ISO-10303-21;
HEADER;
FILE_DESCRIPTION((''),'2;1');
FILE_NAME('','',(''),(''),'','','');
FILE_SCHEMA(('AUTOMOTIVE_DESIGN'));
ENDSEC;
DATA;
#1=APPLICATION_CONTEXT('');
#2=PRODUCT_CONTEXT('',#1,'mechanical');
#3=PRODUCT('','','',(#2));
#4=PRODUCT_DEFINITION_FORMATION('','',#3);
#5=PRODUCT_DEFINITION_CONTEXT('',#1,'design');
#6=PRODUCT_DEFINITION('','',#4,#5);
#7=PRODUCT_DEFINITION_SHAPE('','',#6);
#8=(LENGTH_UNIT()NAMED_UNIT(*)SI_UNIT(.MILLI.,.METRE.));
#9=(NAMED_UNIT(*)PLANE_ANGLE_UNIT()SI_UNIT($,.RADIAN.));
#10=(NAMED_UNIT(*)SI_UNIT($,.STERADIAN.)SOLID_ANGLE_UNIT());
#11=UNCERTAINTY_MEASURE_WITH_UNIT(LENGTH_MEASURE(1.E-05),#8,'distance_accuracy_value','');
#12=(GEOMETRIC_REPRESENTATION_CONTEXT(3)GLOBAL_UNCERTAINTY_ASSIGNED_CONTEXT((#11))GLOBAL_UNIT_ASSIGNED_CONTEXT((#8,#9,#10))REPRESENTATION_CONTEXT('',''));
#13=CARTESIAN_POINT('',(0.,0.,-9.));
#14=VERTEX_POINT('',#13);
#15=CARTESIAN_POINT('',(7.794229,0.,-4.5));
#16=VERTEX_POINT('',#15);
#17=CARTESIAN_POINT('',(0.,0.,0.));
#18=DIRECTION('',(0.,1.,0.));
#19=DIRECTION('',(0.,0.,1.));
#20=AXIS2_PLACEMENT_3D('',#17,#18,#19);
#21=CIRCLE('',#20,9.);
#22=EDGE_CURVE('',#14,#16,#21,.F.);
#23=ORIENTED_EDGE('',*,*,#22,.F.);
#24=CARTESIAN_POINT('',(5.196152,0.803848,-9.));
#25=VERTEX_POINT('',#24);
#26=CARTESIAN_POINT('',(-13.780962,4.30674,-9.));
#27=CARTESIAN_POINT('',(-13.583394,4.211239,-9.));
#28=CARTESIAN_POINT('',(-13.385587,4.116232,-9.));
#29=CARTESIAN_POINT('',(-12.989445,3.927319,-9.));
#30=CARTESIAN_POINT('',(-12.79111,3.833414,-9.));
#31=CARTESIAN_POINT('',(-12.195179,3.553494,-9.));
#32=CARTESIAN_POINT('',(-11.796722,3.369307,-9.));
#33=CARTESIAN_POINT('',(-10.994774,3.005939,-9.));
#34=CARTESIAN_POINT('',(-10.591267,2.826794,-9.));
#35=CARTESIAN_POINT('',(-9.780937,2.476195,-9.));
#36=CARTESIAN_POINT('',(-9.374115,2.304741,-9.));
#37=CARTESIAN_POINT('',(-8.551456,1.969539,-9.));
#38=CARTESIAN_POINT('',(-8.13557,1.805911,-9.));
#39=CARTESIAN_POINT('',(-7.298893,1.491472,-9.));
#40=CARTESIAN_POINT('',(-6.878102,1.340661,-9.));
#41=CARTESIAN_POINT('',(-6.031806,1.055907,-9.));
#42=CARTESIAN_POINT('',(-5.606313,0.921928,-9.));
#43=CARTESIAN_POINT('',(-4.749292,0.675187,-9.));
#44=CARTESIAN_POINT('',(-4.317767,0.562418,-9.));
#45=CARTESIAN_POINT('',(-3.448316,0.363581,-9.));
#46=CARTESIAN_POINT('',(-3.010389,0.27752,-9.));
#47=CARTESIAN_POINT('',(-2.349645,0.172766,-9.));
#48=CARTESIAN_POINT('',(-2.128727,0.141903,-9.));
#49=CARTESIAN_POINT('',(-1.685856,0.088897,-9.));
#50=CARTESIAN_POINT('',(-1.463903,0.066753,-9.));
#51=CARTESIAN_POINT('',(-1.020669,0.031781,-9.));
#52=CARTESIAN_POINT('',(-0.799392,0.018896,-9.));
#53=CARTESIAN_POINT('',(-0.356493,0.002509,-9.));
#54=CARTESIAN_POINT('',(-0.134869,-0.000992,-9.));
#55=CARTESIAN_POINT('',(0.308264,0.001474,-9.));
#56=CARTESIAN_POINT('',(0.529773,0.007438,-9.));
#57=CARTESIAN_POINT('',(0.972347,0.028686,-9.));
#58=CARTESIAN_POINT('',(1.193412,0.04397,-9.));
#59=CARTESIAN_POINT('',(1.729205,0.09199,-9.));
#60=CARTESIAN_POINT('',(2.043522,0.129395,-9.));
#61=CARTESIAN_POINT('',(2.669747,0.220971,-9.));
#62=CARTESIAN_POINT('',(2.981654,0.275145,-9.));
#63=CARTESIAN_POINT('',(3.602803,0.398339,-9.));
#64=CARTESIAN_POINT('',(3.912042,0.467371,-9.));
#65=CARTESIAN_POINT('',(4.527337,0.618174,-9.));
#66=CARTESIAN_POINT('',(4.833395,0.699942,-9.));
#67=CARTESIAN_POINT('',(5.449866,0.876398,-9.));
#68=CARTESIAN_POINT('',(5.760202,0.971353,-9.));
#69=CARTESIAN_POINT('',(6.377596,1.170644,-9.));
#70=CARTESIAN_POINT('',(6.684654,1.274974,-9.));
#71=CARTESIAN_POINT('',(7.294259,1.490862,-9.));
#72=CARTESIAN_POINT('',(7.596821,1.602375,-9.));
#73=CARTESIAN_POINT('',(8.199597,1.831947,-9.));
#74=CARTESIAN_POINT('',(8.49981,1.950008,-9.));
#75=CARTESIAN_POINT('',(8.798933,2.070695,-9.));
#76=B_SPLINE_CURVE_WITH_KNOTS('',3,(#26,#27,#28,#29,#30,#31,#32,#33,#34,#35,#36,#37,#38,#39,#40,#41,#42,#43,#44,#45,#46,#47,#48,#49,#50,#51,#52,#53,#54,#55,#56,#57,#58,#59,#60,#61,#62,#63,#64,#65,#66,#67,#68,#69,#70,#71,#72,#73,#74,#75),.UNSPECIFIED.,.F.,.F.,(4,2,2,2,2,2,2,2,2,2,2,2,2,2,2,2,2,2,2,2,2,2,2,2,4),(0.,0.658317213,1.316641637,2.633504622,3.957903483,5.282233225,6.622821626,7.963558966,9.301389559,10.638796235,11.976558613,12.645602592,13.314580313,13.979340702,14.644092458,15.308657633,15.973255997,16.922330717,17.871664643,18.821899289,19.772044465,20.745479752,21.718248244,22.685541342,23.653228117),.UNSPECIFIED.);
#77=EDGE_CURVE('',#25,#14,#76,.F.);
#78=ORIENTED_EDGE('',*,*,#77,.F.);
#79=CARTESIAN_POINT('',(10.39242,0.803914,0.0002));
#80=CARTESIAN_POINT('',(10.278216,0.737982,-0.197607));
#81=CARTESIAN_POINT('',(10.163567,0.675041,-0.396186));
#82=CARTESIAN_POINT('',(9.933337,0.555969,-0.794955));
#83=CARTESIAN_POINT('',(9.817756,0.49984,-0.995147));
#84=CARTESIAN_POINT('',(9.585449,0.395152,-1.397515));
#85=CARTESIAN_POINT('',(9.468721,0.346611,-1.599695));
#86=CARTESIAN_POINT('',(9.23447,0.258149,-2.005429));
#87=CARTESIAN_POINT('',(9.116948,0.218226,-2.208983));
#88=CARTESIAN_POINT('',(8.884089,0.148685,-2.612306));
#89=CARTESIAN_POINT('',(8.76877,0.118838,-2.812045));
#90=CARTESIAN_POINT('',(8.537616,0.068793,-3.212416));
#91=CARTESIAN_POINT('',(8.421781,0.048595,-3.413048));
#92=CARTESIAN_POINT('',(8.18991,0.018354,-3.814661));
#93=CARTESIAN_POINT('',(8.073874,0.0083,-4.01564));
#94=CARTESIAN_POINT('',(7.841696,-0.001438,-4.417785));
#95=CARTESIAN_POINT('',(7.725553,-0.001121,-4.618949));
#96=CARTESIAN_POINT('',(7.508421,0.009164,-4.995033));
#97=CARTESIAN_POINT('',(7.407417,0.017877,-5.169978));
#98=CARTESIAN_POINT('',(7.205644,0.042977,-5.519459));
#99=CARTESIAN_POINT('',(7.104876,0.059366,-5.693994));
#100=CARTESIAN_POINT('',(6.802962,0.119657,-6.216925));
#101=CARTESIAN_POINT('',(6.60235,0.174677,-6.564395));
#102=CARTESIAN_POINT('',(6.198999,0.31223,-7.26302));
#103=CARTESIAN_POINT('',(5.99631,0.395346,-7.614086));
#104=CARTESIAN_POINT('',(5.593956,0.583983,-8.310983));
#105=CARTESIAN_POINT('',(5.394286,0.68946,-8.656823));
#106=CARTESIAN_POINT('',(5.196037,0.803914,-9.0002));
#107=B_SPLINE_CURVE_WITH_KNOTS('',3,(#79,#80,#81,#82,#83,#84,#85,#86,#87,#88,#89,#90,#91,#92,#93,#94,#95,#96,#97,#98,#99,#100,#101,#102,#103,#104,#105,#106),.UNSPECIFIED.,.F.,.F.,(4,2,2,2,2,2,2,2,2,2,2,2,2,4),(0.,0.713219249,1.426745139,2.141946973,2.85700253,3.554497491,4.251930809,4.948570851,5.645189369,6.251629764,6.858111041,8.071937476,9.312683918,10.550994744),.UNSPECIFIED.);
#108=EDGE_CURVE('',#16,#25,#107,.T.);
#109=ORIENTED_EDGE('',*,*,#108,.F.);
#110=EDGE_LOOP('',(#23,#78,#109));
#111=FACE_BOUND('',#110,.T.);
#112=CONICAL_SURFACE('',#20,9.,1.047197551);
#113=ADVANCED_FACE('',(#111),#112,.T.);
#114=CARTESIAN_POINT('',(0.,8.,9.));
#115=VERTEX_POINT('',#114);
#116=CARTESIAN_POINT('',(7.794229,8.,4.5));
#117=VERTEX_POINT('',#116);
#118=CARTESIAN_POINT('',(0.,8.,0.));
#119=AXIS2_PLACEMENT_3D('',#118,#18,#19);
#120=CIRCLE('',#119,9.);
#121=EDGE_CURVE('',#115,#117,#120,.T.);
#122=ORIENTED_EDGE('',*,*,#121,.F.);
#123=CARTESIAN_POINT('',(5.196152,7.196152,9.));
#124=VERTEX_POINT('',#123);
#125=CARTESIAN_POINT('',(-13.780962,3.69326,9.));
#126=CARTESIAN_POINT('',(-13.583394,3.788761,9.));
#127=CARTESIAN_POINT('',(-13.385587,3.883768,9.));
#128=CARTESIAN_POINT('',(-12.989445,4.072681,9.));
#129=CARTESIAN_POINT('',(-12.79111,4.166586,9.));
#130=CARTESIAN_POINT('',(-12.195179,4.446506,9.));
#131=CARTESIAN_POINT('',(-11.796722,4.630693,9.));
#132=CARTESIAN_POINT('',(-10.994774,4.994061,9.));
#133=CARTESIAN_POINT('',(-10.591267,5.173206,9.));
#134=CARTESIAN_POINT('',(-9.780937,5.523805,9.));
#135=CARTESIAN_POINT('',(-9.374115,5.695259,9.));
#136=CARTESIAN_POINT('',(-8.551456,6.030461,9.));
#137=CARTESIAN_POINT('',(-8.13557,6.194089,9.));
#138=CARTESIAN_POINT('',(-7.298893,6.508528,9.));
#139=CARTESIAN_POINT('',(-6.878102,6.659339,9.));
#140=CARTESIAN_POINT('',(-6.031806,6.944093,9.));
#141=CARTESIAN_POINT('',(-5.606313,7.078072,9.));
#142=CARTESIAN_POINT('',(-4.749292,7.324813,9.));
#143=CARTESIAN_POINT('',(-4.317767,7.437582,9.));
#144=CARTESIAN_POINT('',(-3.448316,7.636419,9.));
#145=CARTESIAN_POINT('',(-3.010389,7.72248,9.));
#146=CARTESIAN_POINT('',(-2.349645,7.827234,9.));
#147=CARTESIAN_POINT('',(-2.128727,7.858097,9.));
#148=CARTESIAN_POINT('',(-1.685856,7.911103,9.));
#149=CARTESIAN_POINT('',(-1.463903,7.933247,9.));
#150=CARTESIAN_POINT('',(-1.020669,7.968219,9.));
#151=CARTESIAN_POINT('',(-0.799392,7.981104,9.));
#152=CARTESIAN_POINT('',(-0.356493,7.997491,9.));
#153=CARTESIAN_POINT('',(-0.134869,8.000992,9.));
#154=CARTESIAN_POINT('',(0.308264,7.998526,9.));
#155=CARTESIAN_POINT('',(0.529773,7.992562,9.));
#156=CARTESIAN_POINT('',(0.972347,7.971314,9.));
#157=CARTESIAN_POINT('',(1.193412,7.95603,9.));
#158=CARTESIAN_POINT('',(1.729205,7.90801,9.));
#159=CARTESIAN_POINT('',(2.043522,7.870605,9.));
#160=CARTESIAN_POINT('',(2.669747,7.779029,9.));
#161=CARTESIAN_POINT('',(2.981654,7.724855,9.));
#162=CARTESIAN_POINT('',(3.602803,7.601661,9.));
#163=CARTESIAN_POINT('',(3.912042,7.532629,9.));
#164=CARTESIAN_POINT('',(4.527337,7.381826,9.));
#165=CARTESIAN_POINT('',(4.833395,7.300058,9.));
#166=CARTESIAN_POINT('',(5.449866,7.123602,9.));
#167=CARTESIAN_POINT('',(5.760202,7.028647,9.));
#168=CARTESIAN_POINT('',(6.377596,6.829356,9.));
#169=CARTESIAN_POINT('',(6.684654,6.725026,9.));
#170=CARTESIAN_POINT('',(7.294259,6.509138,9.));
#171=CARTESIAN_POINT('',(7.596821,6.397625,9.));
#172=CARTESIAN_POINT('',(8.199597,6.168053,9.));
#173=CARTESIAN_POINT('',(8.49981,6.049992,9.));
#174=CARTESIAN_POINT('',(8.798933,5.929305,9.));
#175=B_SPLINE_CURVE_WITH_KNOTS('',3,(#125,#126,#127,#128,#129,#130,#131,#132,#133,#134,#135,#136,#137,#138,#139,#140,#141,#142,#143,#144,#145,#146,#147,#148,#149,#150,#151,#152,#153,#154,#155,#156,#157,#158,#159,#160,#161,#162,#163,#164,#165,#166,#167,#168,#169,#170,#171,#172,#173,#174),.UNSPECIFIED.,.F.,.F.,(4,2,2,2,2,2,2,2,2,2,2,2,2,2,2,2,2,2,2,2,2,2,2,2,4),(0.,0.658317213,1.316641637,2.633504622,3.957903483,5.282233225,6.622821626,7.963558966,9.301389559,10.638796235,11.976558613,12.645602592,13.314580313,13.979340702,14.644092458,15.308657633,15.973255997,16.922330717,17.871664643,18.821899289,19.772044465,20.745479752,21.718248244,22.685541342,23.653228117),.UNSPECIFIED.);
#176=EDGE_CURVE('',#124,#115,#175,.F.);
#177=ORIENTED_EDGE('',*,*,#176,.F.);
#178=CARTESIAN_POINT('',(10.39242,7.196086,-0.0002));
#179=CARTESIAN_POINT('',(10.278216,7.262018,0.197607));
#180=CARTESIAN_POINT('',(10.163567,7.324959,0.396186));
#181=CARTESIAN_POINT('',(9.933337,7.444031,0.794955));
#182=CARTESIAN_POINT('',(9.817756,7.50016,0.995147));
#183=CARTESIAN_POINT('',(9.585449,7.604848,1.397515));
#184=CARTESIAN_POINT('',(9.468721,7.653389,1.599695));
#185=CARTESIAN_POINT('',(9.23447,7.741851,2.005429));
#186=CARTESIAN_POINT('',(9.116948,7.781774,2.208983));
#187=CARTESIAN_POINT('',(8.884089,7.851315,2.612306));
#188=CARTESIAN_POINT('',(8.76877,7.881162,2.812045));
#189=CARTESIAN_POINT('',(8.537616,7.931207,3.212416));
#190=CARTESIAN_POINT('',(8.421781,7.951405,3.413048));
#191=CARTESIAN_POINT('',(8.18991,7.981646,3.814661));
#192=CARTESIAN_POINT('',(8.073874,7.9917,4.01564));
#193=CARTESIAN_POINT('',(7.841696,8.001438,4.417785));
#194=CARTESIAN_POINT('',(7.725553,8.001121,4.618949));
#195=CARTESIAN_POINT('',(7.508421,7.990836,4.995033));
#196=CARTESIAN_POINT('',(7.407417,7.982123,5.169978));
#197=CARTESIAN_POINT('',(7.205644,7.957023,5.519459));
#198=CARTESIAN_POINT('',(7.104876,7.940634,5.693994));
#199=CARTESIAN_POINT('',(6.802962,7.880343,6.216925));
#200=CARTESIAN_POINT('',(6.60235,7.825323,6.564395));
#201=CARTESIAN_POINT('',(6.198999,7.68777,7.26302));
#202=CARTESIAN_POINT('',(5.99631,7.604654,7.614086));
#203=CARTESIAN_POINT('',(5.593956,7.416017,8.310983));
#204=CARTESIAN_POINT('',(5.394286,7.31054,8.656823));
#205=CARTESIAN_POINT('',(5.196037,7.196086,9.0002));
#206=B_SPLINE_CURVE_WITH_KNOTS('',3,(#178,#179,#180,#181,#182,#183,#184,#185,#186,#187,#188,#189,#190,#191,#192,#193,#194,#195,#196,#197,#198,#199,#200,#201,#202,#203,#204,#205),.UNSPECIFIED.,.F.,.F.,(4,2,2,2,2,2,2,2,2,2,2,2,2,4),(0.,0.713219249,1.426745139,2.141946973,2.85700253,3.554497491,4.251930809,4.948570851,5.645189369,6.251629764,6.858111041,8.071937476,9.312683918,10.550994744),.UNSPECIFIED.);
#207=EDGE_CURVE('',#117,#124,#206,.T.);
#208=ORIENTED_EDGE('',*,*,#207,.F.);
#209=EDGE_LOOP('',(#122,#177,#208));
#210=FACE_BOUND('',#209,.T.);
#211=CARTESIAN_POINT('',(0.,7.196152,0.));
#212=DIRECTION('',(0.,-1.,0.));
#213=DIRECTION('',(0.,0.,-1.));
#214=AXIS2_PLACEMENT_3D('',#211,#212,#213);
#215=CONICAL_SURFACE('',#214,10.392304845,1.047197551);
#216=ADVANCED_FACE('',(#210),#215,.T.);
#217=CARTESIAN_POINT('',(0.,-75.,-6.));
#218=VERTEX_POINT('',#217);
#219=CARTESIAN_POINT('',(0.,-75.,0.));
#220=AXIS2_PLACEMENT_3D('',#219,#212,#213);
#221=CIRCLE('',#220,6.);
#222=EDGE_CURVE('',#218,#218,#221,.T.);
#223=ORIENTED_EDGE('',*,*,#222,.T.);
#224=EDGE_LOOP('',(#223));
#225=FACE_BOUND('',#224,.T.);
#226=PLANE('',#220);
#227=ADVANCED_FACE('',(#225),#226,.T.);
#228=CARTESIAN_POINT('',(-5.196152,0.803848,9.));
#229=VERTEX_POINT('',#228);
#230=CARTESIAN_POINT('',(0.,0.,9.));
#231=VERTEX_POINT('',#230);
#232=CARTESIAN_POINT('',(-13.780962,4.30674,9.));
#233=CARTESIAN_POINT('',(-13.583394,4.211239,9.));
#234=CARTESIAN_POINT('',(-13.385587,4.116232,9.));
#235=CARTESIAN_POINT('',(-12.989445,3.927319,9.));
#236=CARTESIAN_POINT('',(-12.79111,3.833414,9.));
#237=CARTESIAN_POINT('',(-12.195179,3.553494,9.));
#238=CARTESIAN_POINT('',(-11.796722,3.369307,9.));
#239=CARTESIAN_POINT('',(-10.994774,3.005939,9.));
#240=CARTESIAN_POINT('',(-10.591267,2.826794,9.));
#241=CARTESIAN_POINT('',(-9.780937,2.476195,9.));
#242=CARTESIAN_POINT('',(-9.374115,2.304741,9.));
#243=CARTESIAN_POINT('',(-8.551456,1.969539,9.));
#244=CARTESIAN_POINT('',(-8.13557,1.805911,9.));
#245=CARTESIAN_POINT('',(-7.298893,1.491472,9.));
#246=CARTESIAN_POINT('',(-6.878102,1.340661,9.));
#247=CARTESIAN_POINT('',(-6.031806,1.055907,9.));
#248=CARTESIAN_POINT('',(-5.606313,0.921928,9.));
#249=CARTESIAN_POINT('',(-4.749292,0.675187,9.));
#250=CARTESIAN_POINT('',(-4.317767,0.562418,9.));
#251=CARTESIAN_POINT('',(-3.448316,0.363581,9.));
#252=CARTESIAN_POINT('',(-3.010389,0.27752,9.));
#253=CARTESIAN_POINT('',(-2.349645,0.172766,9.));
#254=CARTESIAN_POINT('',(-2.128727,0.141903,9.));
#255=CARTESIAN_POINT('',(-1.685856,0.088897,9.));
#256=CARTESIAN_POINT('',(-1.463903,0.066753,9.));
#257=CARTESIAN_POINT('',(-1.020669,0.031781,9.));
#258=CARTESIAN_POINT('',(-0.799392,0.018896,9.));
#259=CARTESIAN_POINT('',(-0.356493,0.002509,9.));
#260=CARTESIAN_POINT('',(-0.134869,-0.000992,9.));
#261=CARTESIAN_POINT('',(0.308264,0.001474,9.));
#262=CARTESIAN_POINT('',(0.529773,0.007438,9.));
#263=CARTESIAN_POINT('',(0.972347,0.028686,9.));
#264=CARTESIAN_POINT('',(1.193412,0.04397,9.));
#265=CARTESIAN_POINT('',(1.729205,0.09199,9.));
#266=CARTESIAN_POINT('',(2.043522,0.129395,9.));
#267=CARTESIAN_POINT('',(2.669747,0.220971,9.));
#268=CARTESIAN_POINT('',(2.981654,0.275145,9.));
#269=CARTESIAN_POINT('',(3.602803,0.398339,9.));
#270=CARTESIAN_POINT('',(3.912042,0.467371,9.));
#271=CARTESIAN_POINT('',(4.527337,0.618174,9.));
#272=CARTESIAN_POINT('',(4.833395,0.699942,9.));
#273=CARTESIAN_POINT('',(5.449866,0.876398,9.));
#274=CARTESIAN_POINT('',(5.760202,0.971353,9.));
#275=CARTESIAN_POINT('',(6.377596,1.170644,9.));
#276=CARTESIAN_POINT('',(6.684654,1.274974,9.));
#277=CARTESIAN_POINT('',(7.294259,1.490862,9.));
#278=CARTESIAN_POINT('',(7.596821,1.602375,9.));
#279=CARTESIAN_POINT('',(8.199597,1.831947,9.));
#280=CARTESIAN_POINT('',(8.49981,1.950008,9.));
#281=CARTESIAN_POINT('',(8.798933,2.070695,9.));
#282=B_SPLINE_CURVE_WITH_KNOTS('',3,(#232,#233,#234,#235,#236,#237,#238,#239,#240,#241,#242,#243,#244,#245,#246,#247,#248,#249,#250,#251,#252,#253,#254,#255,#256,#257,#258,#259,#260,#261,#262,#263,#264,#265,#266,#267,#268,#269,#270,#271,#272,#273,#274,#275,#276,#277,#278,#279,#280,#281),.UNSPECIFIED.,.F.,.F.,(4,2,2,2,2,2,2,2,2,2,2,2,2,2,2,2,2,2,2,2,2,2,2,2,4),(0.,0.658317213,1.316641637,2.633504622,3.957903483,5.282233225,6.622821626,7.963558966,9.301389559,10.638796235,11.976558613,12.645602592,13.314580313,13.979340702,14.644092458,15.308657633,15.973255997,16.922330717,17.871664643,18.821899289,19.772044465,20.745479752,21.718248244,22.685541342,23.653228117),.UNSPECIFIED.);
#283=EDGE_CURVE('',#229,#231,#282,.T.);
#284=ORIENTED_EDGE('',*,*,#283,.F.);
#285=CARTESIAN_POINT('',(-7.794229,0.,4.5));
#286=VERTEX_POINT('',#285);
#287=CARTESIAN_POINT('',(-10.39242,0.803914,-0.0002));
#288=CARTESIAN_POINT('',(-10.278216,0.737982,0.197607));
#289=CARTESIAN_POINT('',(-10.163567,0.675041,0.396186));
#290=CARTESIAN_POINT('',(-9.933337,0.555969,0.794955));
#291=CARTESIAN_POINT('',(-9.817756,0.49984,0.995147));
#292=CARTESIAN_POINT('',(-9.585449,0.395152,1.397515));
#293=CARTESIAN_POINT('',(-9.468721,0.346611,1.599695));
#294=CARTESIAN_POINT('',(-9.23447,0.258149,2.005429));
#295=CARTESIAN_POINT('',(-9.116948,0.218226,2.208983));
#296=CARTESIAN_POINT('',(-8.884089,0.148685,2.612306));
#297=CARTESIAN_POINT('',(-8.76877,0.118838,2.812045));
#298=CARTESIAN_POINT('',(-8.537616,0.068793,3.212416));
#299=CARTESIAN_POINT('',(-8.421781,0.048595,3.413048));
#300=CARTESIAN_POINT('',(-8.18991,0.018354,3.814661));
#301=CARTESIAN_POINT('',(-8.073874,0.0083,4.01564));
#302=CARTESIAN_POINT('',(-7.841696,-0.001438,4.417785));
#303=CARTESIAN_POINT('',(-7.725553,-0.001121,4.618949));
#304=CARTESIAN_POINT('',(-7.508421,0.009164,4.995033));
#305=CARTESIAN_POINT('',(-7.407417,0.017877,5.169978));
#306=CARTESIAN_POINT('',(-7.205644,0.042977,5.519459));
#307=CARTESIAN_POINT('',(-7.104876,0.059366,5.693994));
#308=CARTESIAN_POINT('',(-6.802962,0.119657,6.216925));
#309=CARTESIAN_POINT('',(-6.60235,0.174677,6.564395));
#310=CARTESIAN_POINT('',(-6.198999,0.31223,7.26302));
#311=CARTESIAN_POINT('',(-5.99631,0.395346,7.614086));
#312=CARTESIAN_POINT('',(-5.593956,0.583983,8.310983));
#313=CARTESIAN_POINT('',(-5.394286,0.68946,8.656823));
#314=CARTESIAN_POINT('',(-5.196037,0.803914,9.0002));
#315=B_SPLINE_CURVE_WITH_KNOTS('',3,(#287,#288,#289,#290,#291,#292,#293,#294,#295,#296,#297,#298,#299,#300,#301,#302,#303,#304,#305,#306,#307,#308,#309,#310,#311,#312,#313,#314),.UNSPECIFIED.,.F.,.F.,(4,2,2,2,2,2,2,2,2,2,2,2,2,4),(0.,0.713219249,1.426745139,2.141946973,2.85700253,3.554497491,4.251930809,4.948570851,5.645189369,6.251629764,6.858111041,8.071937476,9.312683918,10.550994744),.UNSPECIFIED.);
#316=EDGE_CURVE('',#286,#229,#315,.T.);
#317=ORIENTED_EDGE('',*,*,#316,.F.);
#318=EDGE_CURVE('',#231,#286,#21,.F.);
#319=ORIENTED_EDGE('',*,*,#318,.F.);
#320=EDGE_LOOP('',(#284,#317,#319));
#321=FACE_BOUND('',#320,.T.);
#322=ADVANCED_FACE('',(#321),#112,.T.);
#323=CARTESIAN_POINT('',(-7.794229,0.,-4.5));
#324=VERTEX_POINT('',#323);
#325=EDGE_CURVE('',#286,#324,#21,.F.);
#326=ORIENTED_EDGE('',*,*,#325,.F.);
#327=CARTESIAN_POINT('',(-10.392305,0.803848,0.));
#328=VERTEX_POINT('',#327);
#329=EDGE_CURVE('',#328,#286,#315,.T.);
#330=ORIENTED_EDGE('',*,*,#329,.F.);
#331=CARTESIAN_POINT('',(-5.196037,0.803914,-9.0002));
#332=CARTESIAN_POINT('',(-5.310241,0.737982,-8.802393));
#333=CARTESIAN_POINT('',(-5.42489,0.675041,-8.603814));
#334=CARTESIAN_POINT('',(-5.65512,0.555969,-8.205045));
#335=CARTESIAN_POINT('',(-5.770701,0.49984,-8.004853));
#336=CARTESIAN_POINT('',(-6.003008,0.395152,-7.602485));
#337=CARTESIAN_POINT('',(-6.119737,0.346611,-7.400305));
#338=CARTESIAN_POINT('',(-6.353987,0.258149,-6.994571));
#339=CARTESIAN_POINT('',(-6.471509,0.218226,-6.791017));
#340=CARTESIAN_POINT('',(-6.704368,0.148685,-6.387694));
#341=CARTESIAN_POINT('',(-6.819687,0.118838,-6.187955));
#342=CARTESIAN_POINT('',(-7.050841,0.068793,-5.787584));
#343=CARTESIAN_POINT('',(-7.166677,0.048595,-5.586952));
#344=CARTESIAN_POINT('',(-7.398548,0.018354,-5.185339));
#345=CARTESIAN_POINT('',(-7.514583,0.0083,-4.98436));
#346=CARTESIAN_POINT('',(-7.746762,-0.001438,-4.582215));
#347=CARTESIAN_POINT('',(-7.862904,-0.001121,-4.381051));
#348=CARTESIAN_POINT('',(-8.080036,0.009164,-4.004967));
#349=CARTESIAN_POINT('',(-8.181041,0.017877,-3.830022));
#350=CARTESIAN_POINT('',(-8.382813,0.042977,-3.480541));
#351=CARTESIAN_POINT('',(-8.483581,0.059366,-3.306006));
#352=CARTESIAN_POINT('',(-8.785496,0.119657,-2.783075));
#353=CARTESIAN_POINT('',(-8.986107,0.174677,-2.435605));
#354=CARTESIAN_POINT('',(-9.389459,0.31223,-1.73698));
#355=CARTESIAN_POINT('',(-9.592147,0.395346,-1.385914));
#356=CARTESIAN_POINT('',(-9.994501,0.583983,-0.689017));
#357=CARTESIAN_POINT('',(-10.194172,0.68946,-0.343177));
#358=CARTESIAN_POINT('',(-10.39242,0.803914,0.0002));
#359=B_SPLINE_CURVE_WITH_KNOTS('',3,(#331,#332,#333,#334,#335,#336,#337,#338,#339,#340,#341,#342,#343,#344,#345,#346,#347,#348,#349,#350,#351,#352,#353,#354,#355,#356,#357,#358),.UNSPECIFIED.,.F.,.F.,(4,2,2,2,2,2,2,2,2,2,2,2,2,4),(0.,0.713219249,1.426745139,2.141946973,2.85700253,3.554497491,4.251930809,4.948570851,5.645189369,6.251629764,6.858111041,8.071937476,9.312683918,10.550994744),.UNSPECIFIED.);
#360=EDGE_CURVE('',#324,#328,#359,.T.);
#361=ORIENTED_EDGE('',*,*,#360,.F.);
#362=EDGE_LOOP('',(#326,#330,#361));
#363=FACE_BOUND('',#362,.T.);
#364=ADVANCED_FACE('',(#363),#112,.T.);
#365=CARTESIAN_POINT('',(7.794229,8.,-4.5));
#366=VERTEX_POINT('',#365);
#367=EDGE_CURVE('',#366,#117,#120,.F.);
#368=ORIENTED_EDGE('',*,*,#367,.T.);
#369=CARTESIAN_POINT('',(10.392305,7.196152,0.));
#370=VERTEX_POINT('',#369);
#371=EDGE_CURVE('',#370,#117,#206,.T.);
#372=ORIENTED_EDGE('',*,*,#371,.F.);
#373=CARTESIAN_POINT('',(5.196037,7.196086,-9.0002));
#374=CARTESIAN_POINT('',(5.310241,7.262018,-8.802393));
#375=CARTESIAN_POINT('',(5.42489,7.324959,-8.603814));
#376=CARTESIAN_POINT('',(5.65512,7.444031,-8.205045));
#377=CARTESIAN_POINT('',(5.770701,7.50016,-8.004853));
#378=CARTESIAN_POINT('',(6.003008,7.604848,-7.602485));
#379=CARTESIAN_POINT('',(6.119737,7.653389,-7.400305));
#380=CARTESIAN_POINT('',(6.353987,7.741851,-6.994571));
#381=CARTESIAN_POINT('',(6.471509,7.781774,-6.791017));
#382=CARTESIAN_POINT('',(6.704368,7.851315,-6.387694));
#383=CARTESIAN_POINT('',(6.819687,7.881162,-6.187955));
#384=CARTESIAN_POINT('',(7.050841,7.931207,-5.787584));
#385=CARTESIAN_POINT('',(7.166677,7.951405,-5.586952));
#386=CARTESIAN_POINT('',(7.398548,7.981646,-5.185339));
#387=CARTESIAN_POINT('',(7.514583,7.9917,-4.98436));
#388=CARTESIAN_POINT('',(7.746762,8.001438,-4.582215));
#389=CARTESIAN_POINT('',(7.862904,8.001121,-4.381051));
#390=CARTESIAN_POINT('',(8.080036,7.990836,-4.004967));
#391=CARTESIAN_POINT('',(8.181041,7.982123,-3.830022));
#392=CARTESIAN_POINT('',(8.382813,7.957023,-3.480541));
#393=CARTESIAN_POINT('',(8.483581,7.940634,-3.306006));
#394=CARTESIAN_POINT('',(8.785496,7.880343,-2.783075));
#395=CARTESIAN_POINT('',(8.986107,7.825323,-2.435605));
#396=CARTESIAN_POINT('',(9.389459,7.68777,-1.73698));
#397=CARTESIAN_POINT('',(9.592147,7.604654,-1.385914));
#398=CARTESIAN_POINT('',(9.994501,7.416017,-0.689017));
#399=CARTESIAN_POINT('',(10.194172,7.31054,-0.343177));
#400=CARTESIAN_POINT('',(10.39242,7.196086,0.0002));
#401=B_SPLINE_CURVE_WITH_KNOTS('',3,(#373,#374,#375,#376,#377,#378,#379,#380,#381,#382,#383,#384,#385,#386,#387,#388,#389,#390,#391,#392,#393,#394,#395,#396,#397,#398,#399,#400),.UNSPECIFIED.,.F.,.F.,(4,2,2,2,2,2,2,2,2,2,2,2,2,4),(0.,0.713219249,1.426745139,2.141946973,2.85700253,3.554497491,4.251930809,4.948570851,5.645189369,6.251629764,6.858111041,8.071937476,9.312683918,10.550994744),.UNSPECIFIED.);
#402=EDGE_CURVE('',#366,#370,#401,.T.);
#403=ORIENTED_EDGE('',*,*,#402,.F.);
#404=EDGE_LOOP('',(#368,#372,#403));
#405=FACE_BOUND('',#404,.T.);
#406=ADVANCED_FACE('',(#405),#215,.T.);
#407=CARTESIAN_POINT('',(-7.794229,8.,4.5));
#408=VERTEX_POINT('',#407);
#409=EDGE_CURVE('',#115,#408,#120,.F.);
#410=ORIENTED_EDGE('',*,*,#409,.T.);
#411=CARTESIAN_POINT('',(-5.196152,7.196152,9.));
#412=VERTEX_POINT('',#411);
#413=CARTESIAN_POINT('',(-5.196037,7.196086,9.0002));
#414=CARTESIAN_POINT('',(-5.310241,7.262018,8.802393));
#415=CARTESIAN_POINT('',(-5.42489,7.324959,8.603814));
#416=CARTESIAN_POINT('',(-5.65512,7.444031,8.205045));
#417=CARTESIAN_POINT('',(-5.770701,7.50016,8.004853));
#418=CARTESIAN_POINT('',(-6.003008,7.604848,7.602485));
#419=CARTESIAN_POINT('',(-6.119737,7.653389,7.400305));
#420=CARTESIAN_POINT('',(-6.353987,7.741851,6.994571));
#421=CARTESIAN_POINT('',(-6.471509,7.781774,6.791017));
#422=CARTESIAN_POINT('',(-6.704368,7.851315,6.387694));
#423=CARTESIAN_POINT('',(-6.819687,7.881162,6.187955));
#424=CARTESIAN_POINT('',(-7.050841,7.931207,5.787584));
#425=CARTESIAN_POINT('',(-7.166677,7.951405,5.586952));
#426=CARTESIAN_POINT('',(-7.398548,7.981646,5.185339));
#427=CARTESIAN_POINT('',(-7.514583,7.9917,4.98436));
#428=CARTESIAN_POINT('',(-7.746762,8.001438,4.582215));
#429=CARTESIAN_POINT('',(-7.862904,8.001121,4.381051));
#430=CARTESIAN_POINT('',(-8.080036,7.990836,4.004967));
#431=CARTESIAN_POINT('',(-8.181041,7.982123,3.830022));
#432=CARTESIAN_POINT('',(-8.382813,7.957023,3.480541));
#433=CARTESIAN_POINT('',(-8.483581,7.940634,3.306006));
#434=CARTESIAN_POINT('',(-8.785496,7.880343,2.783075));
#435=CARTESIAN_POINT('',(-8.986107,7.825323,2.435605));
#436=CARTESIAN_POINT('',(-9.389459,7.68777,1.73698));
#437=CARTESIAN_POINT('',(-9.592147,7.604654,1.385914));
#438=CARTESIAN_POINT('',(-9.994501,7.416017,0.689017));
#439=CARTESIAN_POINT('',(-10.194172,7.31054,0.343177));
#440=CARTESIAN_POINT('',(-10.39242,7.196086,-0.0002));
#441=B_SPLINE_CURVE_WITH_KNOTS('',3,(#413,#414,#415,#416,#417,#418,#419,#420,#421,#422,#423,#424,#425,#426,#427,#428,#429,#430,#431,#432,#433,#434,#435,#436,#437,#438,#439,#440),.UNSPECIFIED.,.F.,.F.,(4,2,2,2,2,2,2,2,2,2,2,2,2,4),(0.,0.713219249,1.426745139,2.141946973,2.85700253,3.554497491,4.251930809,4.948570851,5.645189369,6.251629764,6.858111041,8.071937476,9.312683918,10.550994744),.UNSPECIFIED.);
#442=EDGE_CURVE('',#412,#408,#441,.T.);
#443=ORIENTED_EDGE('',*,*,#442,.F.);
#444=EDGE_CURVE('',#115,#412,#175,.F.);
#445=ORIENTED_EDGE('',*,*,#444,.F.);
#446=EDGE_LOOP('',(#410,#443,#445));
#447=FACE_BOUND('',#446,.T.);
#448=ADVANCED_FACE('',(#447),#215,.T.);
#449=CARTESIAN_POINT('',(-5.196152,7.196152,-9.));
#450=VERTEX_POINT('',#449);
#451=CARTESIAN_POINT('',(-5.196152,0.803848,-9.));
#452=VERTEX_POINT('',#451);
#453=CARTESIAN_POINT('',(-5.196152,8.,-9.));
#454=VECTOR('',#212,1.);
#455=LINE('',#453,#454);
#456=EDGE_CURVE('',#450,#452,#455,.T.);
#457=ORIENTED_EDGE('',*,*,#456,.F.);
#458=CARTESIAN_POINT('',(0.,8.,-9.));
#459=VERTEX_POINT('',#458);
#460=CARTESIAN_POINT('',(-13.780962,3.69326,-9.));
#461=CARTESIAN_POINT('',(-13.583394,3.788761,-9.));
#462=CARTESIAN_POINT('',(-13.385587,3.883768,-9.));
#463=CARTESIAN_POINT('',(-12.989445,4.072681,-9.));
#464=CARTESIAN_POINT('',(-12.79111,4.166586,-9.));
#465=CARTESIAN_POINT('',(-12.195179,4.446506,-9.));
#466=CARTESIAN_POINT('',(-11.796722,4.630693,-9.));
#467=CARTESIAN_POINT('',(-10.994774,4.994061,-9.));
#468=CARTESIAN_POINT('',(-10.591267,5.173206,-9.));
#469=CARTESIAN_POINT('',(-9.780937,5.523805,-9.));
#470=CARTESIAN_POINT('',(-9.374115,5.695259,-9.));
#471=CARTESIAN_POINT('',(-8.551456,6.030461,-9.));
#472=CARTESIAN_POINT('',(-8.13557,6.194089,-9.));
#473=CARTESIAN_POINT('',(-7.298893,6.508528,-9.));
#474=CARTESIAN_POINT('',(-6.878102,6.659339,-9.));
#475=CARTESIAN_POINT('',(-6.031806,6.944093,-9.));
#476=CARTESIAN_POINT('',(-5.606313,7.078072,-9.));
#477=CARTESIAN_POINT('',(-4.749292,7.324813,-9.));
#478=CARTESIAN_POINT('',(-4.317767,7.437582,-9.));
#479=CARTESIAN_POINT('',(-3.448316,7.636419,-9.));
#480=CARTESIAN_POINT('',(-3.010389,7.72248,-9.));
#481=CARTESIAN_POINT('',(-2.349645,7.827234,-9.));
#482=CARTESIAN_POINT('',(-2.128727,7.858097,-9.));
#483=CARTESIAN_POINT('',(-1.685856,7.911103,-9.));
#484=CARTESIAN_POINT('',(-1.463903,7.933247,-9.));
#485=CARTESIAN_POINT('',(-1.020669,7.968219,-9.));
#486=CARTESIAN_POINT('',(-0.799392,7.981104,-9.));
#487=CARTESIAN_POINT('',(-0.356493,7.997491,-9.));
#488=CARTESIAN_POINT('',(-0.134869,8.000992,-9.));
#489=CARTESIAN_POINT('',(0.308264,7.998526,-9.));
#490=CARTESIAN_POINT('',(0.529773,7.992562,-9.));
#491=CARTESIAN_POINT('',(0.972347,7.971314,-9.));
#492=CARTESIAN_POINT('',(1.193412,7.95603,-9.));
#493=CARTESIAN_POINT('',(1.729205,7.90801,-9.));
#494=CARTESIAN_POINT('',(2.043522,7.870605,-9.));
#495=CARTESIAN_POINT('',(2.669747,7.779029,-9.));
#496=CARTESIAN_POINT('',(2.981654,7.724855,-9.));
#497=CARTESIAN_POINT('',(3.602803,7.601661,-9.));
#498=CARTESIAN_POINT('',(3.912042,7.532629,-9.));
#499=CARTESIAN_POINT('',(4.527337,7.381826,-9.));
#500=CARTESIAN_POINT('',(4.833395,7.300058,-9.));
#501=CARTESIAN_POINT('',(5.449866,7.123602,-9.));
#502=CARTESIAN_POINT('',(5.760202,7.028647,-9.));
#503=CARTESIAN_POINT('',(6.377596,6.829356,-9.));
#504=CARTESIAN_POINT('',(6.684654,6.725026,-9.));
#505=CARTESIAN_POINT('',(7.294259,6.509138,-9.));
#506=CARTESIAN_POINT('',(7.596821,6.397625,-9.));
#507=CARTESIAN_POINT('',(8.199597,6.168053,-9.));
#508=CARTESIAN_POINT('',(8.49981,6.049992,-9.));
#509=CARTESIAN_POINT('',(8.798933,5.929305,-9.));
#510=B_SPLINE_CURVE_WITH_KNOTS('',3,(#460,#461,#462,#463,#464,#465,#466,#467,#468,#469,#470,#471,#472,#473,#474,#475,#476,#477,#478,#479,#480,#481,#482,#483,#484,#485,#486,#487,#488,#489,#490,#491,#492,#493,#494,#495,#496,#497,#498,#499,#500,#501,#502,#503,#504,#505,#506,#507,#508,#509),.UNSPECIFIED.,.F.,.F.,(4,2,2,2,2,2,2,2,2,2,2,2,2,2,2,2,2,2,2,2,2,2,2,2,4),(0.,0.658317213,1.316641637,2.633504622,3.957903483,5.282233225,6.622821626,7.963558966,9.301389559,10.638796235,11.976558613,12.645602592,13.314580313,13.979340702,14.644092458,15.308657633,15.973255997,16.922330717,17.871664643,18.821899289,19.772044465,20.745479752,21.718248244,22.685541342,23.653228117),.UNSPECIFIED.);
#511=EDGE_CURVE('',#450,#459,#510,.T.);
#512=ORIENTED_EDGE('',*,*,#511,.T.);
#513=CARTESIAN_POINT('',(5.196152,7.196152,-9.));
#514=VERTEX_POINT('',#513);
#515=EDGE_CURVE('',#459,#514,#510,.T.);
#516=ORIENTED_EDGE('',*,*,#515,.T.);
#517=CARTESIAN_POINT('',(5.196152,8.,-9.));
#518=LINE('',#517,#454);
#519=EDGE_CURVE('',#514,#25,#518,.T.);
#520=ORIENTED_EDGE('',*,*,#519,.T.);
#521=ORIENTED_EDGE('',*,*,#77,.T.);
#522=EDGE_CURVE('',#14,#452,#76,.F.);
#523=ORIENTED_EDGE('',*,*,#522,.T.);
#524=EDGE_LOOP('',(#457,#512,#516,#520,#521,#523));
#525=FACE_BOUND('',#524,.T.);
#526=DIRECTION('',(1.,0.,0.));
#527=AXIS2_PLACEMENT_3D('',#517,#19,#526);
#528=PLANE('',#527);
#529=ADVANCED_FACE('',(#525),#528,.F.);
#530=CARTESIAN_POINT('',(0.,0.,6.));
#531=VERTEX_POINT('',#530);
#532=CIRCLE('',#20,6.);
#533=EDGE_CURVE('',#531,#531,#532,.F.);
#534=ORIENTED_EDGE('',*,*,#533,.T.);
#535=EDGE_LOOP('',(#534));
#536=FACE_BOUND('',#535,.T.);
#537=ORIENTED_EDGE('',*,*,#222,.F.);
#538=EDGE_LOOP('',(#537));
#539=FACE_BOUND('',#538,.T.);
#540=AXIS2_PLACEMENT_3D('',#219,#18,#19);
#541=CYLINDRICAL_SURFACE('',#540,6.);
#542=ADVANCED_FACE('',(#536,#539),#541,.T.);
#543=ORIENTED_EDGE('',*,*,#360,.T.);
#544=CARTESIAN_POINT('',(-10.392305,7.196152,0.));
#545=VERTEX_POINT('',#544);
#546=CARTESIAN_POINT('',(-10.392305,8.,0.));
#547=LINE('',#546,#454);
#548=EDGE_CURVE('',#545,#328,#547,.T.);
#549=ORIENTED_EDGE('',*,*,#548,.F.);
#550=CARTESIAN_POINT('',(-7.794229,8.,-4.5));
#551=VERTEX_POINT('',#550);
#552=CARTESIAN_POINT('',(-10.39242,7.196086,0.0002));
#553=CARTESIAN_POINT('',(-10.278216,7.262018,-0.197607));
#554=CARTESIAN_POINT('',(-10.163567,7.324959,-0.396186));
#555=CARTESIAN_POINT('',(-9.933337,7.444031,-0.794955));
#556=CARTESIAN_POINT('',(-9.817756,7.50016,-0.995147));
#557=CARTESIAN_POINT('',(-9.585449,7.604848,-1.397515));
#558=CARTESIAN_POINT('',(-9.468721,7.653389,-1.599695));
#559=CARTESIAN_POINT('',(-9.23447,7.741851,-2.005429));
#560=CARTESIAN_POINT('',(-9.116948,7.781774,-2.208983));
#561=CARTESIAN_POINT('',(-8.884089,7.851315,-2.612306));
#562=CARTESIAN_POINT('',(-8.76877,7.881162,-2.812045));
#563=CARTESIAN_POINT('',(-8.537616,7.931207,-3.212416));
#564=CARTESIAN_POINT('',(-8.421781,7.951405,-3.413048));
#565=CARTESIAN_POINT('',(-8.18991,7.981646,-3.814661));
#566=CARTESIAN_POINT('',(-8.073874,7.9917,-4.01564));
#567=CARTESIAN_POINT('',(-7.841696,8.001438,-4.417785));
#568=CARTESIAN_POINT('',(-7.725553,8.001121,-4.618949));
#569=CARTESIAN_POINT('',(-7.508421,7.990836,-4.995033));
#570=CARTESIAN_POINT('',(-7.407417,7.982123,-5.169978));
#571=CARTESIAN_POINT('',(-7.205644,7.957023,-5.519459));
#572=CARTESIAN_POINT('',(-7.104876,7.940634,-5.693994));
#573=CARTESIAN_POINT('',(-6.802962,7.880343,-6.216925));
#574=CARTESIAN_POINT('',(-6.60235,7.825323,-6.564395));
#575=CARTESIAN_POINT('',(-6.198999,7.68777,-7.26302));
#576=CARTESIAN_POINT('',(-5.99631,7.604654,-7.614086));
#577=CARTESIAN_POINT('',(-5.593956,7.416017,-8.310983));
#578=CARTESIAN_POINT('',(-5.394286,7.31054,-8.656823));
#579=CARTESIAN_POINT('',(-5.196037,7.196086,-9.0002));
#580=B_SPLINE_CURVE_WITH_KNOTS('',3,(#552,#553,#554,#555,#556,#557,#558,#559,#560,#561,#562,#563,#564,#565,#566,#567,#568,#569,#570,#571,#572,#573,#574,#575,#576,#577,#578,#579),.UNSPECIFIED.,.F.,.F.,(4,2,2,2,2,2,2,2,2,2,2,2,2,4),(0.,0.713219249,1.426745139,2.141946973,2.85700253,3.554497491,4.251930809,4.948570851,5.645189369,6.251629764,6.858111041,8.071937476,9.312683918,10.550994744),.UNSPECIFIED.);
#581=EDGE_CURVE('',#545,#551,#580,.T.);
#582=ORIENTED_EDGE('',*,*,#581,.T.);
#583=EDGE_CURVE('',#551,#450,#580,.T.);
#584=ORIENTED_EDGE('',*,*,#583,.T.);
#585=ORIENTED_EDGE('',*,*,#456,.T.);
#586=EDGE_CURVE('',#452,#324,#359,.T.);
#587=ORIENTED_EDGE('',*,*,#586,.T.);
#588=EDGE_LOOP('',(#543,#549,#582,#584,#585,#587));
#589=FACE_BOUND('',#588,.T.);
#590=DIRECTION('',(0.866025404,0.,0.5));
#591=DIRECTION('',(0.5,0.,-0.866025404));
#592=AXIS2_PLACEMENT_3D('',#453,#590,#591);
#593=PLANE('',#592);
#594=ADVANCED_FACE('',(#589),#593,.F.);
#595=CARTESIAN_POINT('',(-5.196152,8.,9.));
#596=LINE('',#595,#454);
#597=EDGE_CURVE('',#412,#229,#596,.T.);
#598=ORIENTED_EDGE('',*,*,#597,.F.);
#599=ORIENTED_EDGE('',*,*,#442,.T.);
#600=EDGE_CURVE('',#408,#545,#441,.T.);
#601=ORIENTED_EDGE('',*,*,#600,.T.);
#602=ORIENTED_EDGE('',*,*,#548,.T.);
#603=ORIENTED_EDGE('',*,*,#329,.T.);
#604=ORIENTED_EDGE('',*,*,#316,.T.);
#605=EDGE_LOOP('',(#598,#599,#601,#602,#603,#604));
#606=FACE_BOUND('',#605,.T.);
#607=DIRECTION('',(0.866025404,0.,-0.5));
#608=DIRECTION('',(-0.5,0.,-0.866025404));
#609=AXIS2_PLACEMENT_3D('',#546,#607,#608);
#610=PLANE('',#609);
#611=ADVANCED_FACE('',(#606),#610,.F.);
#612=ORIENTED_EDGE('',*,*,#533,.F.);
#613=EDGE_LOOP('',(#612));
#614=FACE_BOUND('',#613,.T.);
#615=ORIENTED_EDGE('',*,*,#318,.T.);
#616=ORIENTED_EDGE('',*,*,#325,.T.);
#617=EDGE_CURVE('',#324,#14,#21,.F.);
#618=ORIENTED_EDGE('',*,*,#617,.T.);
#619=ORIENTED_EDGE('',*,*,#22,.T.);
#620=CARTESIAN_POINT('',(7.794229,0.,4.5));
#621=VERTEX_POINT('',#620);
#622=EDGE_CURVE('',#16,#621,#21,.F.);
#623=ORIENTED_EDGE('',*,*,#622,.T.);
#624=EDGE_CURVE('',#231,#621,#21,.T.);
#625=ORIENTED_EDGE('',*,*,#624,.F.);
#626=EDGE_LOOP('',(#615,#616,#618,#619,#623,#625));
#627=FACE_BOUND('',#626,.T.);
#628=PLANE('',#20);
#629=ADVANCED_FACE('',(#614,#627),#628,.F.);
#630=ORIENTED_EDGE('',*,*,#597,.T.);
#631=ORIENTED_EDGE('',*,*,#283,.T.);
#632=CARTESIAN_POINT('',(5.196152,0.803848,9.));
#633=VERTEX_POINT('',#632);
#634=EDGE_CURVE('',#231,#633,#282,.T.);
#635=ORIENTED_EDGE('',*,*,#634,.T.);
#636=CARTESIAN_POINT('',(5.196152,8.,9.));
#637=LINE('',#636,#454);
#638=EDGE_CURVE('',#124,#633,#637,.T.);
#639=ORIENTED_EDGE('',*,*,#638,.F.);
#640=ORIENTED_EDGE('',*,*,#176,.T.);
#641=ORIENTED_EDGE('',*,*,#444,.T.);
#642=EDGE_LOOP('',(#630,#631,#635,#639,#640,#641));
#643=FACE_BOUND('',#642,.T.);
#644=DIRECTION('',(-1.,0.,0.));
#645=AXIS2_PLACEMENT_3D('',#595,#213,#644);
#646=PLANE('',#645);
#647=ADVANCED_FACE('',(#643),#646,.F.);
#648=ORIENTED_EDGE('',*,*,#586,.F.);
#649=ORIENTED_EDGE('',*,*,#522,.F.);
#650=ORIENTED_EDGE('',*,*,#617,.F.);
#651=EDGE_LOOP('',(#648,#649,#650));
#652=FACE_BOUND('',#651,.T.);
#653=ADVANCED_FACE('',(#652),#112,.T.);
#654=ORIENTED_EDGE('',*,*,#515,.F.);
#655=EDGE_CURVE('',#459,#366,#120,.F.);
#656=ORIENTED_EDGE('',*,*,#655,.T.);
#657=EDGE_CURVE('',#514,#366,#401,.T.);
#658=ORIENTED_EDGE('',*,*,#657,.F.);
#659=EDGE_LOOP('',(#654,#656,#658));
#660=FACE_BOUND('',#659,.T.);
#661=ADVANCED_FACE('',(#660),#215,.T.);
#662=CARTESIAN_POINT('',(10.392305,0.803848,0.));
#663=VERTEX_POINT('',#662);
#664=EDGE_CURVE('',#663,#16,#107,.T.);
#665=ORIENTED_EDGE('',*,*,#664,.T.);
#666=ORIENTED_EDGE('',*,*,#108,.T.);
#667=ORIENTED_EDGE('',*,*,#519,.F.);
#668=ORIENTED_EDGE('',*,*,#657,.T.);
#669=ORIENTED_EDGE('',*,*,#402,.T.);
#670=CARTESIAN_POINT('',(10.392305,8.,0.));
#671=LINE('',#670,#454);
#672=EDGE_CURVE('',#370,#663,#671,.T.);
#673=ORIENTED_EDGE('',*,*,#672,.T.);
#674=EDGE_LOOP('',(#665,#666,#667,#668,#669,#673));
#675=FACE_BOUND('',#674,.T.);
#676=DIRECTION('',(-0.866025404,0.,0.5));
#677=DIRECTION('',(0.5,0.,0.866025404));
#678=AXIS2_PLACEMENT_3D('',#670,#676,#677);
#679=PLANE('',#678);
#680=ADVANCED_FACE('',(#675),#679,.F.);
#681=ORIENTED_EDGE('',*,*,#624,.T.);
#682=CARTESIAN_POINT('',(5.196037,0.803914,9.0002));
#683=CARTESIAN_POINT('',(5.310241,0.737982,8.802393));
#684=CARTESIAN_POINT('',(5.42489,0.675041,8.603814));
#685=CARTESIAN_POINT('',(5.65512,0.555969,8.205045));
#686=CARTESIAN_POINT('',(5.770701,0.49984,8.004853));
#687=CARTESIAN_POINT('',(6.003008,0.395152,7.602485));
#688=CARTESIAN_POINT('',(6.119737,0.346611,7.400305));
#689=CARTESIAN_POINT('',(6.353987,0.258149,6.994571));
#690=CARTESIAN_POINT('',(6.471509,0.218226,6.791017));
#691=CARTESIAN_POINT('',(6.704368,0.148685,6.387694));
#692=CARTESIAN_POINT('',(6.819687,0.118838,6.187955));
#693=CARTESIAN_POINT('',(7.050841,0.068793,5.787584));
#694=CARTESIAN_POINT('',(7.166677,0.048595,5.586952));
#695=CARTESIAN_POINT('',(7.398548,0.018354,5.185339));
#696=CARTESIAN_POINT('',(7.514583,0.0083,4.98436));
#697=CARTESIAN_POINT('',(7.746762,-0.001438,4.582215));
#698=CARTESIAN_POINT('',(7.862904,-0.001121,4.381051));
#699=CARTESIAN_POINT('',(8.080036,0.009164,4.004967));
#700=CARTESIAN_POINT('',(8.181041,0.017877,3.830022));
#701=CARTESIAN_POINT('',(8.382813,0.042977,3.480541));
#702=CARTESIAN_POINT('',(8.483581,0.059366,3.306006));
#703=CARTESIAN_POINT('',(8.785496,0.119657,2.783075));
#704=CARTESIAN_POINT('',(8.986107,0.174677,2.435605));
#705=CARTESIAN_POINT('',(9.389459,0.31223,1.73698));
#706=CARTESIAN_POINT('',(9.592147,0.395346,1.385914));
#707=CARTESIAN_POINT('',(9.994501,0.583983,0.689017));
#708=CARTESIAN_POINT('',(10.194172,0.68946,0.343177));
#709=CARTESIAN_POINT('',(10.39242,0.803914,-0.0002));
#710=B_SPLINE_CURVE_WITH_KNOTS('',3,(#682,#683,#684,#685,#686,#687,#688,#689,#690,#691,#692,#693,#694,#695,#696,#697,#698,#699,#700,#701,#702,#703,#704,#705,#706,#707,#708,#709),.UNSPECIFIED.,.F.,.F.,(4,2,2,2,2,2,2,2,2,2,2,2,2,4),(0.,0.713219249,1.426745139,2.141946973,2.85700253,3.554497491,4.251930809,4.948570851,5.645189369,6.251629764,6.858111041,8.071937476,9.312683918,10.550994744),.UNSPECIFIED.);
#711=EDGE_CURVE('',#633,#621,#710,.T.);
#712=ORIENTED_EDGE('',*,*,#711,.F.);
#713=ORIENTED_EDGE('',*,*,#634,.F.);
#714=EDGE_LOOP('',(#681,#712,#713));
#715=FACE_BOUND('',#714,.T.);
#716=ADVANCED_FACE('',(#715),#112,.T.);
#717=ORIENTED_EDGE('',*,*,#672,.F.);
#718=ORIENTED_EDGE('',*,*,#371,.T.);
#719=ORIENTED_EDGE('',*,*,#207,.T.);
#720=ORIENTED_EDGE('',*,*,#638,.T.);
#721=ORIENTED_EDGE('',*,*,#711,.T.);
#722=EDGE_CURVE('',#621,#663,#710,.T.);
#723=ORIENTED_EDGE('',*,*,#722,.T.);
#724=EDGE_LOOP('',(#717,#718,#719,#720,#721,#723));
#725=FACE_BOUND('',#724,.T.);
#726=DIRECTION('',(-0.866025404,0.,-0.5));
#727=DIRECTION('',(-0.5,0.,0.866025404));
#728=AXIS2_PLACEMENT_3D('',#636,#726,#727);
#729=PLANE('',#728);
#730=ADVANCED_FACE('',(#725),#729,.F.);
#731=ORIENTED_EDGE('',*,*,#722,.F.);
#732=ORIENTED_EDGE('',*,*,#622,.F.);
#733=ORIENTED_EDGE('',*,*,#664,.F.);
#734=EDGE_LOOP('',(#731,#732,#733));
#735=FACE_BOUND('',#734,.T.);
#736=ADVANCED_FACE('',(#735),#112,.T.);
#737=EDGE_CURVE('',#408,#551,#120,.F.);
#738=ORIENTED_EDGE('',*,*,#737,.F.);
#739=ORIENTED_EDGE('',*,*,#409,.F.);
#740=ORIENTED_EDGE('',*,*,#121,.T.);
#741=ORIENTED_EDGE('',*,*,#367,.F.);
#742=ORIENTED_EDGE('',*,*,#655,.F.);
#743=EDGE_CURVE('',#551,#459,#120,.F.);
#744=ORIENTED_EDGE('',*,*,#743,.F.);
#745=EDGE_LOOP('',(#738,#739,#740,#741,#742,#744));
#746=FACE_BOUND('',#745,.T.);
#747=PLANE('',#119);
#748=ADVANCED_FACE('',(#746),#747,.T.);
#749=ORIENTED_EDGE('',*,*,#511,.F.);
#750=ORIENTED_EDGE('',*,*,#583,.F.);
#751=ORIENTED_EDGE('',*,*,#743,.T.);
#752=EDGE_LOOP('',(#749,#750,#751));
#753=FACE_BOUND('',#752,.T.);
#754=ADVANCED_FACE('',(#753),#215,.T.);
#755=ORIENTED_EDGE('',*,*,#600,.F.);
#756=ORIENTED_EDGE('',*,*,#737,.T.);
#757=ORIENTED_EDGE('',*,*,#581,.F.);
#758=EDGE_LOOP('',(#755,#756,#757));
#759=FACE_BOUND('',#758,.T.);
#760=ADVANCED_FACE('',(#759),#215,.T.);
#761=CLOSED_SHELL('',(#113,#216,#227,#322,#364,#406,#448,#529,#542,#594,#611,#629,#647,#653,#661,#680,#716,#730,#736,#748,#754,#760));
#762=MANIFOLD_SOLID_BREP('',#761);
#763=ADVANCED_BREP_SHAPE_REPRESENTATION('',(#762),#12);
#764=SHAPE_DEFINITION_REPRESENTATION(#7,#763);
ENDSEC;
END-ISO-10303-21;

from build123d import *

# Parameters (mm, degrees)
BOSS_EXTRUDE1_DEPTH = 8
SKETCH3_R           = 6
BOSS_EXTRUDE2_DEPTH = 75


with BuildPart() as part:
    # Sketch1 → Boss-Extrude1 (new body)
    with BuildSketch(Plane(origin=(0, 0, 0), x_dir=(1, 0, 0), z_dir=(0, 1, 0))):
        Polygon((5.196152423, 9), (-5.196152423, 9), (-10.392304845, 0), (-5.196152423, -9), (5.196152423, -9), (10.392304845, 0), align=None)
    extrude(amount=BOSS_EXTRUDE1_DEPTH)

    # Sketch2 → Cut-Revolve1 (revolve, cut)
    with BuildSketch(Plane.XY):
        Polygon((-10.392304845, 0), (-9, 0), (-10.392304845, 0.803847577), align=None)
        Polygon((-10.392304845, 8), (-9, 8), (-10.392304845, 7.196152423), align=None)
    revolve(axis=Axis((0, 55, 0), (0, -1, 0)), mode=Mode.SUBTRACT)

    # Sketch3 → Boss-Extrude2 (add)
    with BuildSketch(Plane.XZ):
        Circle(SKETCH3_R)
    extrude(amount=BOSS_EXTRUDE2_DEPTH)


solid = part.part
